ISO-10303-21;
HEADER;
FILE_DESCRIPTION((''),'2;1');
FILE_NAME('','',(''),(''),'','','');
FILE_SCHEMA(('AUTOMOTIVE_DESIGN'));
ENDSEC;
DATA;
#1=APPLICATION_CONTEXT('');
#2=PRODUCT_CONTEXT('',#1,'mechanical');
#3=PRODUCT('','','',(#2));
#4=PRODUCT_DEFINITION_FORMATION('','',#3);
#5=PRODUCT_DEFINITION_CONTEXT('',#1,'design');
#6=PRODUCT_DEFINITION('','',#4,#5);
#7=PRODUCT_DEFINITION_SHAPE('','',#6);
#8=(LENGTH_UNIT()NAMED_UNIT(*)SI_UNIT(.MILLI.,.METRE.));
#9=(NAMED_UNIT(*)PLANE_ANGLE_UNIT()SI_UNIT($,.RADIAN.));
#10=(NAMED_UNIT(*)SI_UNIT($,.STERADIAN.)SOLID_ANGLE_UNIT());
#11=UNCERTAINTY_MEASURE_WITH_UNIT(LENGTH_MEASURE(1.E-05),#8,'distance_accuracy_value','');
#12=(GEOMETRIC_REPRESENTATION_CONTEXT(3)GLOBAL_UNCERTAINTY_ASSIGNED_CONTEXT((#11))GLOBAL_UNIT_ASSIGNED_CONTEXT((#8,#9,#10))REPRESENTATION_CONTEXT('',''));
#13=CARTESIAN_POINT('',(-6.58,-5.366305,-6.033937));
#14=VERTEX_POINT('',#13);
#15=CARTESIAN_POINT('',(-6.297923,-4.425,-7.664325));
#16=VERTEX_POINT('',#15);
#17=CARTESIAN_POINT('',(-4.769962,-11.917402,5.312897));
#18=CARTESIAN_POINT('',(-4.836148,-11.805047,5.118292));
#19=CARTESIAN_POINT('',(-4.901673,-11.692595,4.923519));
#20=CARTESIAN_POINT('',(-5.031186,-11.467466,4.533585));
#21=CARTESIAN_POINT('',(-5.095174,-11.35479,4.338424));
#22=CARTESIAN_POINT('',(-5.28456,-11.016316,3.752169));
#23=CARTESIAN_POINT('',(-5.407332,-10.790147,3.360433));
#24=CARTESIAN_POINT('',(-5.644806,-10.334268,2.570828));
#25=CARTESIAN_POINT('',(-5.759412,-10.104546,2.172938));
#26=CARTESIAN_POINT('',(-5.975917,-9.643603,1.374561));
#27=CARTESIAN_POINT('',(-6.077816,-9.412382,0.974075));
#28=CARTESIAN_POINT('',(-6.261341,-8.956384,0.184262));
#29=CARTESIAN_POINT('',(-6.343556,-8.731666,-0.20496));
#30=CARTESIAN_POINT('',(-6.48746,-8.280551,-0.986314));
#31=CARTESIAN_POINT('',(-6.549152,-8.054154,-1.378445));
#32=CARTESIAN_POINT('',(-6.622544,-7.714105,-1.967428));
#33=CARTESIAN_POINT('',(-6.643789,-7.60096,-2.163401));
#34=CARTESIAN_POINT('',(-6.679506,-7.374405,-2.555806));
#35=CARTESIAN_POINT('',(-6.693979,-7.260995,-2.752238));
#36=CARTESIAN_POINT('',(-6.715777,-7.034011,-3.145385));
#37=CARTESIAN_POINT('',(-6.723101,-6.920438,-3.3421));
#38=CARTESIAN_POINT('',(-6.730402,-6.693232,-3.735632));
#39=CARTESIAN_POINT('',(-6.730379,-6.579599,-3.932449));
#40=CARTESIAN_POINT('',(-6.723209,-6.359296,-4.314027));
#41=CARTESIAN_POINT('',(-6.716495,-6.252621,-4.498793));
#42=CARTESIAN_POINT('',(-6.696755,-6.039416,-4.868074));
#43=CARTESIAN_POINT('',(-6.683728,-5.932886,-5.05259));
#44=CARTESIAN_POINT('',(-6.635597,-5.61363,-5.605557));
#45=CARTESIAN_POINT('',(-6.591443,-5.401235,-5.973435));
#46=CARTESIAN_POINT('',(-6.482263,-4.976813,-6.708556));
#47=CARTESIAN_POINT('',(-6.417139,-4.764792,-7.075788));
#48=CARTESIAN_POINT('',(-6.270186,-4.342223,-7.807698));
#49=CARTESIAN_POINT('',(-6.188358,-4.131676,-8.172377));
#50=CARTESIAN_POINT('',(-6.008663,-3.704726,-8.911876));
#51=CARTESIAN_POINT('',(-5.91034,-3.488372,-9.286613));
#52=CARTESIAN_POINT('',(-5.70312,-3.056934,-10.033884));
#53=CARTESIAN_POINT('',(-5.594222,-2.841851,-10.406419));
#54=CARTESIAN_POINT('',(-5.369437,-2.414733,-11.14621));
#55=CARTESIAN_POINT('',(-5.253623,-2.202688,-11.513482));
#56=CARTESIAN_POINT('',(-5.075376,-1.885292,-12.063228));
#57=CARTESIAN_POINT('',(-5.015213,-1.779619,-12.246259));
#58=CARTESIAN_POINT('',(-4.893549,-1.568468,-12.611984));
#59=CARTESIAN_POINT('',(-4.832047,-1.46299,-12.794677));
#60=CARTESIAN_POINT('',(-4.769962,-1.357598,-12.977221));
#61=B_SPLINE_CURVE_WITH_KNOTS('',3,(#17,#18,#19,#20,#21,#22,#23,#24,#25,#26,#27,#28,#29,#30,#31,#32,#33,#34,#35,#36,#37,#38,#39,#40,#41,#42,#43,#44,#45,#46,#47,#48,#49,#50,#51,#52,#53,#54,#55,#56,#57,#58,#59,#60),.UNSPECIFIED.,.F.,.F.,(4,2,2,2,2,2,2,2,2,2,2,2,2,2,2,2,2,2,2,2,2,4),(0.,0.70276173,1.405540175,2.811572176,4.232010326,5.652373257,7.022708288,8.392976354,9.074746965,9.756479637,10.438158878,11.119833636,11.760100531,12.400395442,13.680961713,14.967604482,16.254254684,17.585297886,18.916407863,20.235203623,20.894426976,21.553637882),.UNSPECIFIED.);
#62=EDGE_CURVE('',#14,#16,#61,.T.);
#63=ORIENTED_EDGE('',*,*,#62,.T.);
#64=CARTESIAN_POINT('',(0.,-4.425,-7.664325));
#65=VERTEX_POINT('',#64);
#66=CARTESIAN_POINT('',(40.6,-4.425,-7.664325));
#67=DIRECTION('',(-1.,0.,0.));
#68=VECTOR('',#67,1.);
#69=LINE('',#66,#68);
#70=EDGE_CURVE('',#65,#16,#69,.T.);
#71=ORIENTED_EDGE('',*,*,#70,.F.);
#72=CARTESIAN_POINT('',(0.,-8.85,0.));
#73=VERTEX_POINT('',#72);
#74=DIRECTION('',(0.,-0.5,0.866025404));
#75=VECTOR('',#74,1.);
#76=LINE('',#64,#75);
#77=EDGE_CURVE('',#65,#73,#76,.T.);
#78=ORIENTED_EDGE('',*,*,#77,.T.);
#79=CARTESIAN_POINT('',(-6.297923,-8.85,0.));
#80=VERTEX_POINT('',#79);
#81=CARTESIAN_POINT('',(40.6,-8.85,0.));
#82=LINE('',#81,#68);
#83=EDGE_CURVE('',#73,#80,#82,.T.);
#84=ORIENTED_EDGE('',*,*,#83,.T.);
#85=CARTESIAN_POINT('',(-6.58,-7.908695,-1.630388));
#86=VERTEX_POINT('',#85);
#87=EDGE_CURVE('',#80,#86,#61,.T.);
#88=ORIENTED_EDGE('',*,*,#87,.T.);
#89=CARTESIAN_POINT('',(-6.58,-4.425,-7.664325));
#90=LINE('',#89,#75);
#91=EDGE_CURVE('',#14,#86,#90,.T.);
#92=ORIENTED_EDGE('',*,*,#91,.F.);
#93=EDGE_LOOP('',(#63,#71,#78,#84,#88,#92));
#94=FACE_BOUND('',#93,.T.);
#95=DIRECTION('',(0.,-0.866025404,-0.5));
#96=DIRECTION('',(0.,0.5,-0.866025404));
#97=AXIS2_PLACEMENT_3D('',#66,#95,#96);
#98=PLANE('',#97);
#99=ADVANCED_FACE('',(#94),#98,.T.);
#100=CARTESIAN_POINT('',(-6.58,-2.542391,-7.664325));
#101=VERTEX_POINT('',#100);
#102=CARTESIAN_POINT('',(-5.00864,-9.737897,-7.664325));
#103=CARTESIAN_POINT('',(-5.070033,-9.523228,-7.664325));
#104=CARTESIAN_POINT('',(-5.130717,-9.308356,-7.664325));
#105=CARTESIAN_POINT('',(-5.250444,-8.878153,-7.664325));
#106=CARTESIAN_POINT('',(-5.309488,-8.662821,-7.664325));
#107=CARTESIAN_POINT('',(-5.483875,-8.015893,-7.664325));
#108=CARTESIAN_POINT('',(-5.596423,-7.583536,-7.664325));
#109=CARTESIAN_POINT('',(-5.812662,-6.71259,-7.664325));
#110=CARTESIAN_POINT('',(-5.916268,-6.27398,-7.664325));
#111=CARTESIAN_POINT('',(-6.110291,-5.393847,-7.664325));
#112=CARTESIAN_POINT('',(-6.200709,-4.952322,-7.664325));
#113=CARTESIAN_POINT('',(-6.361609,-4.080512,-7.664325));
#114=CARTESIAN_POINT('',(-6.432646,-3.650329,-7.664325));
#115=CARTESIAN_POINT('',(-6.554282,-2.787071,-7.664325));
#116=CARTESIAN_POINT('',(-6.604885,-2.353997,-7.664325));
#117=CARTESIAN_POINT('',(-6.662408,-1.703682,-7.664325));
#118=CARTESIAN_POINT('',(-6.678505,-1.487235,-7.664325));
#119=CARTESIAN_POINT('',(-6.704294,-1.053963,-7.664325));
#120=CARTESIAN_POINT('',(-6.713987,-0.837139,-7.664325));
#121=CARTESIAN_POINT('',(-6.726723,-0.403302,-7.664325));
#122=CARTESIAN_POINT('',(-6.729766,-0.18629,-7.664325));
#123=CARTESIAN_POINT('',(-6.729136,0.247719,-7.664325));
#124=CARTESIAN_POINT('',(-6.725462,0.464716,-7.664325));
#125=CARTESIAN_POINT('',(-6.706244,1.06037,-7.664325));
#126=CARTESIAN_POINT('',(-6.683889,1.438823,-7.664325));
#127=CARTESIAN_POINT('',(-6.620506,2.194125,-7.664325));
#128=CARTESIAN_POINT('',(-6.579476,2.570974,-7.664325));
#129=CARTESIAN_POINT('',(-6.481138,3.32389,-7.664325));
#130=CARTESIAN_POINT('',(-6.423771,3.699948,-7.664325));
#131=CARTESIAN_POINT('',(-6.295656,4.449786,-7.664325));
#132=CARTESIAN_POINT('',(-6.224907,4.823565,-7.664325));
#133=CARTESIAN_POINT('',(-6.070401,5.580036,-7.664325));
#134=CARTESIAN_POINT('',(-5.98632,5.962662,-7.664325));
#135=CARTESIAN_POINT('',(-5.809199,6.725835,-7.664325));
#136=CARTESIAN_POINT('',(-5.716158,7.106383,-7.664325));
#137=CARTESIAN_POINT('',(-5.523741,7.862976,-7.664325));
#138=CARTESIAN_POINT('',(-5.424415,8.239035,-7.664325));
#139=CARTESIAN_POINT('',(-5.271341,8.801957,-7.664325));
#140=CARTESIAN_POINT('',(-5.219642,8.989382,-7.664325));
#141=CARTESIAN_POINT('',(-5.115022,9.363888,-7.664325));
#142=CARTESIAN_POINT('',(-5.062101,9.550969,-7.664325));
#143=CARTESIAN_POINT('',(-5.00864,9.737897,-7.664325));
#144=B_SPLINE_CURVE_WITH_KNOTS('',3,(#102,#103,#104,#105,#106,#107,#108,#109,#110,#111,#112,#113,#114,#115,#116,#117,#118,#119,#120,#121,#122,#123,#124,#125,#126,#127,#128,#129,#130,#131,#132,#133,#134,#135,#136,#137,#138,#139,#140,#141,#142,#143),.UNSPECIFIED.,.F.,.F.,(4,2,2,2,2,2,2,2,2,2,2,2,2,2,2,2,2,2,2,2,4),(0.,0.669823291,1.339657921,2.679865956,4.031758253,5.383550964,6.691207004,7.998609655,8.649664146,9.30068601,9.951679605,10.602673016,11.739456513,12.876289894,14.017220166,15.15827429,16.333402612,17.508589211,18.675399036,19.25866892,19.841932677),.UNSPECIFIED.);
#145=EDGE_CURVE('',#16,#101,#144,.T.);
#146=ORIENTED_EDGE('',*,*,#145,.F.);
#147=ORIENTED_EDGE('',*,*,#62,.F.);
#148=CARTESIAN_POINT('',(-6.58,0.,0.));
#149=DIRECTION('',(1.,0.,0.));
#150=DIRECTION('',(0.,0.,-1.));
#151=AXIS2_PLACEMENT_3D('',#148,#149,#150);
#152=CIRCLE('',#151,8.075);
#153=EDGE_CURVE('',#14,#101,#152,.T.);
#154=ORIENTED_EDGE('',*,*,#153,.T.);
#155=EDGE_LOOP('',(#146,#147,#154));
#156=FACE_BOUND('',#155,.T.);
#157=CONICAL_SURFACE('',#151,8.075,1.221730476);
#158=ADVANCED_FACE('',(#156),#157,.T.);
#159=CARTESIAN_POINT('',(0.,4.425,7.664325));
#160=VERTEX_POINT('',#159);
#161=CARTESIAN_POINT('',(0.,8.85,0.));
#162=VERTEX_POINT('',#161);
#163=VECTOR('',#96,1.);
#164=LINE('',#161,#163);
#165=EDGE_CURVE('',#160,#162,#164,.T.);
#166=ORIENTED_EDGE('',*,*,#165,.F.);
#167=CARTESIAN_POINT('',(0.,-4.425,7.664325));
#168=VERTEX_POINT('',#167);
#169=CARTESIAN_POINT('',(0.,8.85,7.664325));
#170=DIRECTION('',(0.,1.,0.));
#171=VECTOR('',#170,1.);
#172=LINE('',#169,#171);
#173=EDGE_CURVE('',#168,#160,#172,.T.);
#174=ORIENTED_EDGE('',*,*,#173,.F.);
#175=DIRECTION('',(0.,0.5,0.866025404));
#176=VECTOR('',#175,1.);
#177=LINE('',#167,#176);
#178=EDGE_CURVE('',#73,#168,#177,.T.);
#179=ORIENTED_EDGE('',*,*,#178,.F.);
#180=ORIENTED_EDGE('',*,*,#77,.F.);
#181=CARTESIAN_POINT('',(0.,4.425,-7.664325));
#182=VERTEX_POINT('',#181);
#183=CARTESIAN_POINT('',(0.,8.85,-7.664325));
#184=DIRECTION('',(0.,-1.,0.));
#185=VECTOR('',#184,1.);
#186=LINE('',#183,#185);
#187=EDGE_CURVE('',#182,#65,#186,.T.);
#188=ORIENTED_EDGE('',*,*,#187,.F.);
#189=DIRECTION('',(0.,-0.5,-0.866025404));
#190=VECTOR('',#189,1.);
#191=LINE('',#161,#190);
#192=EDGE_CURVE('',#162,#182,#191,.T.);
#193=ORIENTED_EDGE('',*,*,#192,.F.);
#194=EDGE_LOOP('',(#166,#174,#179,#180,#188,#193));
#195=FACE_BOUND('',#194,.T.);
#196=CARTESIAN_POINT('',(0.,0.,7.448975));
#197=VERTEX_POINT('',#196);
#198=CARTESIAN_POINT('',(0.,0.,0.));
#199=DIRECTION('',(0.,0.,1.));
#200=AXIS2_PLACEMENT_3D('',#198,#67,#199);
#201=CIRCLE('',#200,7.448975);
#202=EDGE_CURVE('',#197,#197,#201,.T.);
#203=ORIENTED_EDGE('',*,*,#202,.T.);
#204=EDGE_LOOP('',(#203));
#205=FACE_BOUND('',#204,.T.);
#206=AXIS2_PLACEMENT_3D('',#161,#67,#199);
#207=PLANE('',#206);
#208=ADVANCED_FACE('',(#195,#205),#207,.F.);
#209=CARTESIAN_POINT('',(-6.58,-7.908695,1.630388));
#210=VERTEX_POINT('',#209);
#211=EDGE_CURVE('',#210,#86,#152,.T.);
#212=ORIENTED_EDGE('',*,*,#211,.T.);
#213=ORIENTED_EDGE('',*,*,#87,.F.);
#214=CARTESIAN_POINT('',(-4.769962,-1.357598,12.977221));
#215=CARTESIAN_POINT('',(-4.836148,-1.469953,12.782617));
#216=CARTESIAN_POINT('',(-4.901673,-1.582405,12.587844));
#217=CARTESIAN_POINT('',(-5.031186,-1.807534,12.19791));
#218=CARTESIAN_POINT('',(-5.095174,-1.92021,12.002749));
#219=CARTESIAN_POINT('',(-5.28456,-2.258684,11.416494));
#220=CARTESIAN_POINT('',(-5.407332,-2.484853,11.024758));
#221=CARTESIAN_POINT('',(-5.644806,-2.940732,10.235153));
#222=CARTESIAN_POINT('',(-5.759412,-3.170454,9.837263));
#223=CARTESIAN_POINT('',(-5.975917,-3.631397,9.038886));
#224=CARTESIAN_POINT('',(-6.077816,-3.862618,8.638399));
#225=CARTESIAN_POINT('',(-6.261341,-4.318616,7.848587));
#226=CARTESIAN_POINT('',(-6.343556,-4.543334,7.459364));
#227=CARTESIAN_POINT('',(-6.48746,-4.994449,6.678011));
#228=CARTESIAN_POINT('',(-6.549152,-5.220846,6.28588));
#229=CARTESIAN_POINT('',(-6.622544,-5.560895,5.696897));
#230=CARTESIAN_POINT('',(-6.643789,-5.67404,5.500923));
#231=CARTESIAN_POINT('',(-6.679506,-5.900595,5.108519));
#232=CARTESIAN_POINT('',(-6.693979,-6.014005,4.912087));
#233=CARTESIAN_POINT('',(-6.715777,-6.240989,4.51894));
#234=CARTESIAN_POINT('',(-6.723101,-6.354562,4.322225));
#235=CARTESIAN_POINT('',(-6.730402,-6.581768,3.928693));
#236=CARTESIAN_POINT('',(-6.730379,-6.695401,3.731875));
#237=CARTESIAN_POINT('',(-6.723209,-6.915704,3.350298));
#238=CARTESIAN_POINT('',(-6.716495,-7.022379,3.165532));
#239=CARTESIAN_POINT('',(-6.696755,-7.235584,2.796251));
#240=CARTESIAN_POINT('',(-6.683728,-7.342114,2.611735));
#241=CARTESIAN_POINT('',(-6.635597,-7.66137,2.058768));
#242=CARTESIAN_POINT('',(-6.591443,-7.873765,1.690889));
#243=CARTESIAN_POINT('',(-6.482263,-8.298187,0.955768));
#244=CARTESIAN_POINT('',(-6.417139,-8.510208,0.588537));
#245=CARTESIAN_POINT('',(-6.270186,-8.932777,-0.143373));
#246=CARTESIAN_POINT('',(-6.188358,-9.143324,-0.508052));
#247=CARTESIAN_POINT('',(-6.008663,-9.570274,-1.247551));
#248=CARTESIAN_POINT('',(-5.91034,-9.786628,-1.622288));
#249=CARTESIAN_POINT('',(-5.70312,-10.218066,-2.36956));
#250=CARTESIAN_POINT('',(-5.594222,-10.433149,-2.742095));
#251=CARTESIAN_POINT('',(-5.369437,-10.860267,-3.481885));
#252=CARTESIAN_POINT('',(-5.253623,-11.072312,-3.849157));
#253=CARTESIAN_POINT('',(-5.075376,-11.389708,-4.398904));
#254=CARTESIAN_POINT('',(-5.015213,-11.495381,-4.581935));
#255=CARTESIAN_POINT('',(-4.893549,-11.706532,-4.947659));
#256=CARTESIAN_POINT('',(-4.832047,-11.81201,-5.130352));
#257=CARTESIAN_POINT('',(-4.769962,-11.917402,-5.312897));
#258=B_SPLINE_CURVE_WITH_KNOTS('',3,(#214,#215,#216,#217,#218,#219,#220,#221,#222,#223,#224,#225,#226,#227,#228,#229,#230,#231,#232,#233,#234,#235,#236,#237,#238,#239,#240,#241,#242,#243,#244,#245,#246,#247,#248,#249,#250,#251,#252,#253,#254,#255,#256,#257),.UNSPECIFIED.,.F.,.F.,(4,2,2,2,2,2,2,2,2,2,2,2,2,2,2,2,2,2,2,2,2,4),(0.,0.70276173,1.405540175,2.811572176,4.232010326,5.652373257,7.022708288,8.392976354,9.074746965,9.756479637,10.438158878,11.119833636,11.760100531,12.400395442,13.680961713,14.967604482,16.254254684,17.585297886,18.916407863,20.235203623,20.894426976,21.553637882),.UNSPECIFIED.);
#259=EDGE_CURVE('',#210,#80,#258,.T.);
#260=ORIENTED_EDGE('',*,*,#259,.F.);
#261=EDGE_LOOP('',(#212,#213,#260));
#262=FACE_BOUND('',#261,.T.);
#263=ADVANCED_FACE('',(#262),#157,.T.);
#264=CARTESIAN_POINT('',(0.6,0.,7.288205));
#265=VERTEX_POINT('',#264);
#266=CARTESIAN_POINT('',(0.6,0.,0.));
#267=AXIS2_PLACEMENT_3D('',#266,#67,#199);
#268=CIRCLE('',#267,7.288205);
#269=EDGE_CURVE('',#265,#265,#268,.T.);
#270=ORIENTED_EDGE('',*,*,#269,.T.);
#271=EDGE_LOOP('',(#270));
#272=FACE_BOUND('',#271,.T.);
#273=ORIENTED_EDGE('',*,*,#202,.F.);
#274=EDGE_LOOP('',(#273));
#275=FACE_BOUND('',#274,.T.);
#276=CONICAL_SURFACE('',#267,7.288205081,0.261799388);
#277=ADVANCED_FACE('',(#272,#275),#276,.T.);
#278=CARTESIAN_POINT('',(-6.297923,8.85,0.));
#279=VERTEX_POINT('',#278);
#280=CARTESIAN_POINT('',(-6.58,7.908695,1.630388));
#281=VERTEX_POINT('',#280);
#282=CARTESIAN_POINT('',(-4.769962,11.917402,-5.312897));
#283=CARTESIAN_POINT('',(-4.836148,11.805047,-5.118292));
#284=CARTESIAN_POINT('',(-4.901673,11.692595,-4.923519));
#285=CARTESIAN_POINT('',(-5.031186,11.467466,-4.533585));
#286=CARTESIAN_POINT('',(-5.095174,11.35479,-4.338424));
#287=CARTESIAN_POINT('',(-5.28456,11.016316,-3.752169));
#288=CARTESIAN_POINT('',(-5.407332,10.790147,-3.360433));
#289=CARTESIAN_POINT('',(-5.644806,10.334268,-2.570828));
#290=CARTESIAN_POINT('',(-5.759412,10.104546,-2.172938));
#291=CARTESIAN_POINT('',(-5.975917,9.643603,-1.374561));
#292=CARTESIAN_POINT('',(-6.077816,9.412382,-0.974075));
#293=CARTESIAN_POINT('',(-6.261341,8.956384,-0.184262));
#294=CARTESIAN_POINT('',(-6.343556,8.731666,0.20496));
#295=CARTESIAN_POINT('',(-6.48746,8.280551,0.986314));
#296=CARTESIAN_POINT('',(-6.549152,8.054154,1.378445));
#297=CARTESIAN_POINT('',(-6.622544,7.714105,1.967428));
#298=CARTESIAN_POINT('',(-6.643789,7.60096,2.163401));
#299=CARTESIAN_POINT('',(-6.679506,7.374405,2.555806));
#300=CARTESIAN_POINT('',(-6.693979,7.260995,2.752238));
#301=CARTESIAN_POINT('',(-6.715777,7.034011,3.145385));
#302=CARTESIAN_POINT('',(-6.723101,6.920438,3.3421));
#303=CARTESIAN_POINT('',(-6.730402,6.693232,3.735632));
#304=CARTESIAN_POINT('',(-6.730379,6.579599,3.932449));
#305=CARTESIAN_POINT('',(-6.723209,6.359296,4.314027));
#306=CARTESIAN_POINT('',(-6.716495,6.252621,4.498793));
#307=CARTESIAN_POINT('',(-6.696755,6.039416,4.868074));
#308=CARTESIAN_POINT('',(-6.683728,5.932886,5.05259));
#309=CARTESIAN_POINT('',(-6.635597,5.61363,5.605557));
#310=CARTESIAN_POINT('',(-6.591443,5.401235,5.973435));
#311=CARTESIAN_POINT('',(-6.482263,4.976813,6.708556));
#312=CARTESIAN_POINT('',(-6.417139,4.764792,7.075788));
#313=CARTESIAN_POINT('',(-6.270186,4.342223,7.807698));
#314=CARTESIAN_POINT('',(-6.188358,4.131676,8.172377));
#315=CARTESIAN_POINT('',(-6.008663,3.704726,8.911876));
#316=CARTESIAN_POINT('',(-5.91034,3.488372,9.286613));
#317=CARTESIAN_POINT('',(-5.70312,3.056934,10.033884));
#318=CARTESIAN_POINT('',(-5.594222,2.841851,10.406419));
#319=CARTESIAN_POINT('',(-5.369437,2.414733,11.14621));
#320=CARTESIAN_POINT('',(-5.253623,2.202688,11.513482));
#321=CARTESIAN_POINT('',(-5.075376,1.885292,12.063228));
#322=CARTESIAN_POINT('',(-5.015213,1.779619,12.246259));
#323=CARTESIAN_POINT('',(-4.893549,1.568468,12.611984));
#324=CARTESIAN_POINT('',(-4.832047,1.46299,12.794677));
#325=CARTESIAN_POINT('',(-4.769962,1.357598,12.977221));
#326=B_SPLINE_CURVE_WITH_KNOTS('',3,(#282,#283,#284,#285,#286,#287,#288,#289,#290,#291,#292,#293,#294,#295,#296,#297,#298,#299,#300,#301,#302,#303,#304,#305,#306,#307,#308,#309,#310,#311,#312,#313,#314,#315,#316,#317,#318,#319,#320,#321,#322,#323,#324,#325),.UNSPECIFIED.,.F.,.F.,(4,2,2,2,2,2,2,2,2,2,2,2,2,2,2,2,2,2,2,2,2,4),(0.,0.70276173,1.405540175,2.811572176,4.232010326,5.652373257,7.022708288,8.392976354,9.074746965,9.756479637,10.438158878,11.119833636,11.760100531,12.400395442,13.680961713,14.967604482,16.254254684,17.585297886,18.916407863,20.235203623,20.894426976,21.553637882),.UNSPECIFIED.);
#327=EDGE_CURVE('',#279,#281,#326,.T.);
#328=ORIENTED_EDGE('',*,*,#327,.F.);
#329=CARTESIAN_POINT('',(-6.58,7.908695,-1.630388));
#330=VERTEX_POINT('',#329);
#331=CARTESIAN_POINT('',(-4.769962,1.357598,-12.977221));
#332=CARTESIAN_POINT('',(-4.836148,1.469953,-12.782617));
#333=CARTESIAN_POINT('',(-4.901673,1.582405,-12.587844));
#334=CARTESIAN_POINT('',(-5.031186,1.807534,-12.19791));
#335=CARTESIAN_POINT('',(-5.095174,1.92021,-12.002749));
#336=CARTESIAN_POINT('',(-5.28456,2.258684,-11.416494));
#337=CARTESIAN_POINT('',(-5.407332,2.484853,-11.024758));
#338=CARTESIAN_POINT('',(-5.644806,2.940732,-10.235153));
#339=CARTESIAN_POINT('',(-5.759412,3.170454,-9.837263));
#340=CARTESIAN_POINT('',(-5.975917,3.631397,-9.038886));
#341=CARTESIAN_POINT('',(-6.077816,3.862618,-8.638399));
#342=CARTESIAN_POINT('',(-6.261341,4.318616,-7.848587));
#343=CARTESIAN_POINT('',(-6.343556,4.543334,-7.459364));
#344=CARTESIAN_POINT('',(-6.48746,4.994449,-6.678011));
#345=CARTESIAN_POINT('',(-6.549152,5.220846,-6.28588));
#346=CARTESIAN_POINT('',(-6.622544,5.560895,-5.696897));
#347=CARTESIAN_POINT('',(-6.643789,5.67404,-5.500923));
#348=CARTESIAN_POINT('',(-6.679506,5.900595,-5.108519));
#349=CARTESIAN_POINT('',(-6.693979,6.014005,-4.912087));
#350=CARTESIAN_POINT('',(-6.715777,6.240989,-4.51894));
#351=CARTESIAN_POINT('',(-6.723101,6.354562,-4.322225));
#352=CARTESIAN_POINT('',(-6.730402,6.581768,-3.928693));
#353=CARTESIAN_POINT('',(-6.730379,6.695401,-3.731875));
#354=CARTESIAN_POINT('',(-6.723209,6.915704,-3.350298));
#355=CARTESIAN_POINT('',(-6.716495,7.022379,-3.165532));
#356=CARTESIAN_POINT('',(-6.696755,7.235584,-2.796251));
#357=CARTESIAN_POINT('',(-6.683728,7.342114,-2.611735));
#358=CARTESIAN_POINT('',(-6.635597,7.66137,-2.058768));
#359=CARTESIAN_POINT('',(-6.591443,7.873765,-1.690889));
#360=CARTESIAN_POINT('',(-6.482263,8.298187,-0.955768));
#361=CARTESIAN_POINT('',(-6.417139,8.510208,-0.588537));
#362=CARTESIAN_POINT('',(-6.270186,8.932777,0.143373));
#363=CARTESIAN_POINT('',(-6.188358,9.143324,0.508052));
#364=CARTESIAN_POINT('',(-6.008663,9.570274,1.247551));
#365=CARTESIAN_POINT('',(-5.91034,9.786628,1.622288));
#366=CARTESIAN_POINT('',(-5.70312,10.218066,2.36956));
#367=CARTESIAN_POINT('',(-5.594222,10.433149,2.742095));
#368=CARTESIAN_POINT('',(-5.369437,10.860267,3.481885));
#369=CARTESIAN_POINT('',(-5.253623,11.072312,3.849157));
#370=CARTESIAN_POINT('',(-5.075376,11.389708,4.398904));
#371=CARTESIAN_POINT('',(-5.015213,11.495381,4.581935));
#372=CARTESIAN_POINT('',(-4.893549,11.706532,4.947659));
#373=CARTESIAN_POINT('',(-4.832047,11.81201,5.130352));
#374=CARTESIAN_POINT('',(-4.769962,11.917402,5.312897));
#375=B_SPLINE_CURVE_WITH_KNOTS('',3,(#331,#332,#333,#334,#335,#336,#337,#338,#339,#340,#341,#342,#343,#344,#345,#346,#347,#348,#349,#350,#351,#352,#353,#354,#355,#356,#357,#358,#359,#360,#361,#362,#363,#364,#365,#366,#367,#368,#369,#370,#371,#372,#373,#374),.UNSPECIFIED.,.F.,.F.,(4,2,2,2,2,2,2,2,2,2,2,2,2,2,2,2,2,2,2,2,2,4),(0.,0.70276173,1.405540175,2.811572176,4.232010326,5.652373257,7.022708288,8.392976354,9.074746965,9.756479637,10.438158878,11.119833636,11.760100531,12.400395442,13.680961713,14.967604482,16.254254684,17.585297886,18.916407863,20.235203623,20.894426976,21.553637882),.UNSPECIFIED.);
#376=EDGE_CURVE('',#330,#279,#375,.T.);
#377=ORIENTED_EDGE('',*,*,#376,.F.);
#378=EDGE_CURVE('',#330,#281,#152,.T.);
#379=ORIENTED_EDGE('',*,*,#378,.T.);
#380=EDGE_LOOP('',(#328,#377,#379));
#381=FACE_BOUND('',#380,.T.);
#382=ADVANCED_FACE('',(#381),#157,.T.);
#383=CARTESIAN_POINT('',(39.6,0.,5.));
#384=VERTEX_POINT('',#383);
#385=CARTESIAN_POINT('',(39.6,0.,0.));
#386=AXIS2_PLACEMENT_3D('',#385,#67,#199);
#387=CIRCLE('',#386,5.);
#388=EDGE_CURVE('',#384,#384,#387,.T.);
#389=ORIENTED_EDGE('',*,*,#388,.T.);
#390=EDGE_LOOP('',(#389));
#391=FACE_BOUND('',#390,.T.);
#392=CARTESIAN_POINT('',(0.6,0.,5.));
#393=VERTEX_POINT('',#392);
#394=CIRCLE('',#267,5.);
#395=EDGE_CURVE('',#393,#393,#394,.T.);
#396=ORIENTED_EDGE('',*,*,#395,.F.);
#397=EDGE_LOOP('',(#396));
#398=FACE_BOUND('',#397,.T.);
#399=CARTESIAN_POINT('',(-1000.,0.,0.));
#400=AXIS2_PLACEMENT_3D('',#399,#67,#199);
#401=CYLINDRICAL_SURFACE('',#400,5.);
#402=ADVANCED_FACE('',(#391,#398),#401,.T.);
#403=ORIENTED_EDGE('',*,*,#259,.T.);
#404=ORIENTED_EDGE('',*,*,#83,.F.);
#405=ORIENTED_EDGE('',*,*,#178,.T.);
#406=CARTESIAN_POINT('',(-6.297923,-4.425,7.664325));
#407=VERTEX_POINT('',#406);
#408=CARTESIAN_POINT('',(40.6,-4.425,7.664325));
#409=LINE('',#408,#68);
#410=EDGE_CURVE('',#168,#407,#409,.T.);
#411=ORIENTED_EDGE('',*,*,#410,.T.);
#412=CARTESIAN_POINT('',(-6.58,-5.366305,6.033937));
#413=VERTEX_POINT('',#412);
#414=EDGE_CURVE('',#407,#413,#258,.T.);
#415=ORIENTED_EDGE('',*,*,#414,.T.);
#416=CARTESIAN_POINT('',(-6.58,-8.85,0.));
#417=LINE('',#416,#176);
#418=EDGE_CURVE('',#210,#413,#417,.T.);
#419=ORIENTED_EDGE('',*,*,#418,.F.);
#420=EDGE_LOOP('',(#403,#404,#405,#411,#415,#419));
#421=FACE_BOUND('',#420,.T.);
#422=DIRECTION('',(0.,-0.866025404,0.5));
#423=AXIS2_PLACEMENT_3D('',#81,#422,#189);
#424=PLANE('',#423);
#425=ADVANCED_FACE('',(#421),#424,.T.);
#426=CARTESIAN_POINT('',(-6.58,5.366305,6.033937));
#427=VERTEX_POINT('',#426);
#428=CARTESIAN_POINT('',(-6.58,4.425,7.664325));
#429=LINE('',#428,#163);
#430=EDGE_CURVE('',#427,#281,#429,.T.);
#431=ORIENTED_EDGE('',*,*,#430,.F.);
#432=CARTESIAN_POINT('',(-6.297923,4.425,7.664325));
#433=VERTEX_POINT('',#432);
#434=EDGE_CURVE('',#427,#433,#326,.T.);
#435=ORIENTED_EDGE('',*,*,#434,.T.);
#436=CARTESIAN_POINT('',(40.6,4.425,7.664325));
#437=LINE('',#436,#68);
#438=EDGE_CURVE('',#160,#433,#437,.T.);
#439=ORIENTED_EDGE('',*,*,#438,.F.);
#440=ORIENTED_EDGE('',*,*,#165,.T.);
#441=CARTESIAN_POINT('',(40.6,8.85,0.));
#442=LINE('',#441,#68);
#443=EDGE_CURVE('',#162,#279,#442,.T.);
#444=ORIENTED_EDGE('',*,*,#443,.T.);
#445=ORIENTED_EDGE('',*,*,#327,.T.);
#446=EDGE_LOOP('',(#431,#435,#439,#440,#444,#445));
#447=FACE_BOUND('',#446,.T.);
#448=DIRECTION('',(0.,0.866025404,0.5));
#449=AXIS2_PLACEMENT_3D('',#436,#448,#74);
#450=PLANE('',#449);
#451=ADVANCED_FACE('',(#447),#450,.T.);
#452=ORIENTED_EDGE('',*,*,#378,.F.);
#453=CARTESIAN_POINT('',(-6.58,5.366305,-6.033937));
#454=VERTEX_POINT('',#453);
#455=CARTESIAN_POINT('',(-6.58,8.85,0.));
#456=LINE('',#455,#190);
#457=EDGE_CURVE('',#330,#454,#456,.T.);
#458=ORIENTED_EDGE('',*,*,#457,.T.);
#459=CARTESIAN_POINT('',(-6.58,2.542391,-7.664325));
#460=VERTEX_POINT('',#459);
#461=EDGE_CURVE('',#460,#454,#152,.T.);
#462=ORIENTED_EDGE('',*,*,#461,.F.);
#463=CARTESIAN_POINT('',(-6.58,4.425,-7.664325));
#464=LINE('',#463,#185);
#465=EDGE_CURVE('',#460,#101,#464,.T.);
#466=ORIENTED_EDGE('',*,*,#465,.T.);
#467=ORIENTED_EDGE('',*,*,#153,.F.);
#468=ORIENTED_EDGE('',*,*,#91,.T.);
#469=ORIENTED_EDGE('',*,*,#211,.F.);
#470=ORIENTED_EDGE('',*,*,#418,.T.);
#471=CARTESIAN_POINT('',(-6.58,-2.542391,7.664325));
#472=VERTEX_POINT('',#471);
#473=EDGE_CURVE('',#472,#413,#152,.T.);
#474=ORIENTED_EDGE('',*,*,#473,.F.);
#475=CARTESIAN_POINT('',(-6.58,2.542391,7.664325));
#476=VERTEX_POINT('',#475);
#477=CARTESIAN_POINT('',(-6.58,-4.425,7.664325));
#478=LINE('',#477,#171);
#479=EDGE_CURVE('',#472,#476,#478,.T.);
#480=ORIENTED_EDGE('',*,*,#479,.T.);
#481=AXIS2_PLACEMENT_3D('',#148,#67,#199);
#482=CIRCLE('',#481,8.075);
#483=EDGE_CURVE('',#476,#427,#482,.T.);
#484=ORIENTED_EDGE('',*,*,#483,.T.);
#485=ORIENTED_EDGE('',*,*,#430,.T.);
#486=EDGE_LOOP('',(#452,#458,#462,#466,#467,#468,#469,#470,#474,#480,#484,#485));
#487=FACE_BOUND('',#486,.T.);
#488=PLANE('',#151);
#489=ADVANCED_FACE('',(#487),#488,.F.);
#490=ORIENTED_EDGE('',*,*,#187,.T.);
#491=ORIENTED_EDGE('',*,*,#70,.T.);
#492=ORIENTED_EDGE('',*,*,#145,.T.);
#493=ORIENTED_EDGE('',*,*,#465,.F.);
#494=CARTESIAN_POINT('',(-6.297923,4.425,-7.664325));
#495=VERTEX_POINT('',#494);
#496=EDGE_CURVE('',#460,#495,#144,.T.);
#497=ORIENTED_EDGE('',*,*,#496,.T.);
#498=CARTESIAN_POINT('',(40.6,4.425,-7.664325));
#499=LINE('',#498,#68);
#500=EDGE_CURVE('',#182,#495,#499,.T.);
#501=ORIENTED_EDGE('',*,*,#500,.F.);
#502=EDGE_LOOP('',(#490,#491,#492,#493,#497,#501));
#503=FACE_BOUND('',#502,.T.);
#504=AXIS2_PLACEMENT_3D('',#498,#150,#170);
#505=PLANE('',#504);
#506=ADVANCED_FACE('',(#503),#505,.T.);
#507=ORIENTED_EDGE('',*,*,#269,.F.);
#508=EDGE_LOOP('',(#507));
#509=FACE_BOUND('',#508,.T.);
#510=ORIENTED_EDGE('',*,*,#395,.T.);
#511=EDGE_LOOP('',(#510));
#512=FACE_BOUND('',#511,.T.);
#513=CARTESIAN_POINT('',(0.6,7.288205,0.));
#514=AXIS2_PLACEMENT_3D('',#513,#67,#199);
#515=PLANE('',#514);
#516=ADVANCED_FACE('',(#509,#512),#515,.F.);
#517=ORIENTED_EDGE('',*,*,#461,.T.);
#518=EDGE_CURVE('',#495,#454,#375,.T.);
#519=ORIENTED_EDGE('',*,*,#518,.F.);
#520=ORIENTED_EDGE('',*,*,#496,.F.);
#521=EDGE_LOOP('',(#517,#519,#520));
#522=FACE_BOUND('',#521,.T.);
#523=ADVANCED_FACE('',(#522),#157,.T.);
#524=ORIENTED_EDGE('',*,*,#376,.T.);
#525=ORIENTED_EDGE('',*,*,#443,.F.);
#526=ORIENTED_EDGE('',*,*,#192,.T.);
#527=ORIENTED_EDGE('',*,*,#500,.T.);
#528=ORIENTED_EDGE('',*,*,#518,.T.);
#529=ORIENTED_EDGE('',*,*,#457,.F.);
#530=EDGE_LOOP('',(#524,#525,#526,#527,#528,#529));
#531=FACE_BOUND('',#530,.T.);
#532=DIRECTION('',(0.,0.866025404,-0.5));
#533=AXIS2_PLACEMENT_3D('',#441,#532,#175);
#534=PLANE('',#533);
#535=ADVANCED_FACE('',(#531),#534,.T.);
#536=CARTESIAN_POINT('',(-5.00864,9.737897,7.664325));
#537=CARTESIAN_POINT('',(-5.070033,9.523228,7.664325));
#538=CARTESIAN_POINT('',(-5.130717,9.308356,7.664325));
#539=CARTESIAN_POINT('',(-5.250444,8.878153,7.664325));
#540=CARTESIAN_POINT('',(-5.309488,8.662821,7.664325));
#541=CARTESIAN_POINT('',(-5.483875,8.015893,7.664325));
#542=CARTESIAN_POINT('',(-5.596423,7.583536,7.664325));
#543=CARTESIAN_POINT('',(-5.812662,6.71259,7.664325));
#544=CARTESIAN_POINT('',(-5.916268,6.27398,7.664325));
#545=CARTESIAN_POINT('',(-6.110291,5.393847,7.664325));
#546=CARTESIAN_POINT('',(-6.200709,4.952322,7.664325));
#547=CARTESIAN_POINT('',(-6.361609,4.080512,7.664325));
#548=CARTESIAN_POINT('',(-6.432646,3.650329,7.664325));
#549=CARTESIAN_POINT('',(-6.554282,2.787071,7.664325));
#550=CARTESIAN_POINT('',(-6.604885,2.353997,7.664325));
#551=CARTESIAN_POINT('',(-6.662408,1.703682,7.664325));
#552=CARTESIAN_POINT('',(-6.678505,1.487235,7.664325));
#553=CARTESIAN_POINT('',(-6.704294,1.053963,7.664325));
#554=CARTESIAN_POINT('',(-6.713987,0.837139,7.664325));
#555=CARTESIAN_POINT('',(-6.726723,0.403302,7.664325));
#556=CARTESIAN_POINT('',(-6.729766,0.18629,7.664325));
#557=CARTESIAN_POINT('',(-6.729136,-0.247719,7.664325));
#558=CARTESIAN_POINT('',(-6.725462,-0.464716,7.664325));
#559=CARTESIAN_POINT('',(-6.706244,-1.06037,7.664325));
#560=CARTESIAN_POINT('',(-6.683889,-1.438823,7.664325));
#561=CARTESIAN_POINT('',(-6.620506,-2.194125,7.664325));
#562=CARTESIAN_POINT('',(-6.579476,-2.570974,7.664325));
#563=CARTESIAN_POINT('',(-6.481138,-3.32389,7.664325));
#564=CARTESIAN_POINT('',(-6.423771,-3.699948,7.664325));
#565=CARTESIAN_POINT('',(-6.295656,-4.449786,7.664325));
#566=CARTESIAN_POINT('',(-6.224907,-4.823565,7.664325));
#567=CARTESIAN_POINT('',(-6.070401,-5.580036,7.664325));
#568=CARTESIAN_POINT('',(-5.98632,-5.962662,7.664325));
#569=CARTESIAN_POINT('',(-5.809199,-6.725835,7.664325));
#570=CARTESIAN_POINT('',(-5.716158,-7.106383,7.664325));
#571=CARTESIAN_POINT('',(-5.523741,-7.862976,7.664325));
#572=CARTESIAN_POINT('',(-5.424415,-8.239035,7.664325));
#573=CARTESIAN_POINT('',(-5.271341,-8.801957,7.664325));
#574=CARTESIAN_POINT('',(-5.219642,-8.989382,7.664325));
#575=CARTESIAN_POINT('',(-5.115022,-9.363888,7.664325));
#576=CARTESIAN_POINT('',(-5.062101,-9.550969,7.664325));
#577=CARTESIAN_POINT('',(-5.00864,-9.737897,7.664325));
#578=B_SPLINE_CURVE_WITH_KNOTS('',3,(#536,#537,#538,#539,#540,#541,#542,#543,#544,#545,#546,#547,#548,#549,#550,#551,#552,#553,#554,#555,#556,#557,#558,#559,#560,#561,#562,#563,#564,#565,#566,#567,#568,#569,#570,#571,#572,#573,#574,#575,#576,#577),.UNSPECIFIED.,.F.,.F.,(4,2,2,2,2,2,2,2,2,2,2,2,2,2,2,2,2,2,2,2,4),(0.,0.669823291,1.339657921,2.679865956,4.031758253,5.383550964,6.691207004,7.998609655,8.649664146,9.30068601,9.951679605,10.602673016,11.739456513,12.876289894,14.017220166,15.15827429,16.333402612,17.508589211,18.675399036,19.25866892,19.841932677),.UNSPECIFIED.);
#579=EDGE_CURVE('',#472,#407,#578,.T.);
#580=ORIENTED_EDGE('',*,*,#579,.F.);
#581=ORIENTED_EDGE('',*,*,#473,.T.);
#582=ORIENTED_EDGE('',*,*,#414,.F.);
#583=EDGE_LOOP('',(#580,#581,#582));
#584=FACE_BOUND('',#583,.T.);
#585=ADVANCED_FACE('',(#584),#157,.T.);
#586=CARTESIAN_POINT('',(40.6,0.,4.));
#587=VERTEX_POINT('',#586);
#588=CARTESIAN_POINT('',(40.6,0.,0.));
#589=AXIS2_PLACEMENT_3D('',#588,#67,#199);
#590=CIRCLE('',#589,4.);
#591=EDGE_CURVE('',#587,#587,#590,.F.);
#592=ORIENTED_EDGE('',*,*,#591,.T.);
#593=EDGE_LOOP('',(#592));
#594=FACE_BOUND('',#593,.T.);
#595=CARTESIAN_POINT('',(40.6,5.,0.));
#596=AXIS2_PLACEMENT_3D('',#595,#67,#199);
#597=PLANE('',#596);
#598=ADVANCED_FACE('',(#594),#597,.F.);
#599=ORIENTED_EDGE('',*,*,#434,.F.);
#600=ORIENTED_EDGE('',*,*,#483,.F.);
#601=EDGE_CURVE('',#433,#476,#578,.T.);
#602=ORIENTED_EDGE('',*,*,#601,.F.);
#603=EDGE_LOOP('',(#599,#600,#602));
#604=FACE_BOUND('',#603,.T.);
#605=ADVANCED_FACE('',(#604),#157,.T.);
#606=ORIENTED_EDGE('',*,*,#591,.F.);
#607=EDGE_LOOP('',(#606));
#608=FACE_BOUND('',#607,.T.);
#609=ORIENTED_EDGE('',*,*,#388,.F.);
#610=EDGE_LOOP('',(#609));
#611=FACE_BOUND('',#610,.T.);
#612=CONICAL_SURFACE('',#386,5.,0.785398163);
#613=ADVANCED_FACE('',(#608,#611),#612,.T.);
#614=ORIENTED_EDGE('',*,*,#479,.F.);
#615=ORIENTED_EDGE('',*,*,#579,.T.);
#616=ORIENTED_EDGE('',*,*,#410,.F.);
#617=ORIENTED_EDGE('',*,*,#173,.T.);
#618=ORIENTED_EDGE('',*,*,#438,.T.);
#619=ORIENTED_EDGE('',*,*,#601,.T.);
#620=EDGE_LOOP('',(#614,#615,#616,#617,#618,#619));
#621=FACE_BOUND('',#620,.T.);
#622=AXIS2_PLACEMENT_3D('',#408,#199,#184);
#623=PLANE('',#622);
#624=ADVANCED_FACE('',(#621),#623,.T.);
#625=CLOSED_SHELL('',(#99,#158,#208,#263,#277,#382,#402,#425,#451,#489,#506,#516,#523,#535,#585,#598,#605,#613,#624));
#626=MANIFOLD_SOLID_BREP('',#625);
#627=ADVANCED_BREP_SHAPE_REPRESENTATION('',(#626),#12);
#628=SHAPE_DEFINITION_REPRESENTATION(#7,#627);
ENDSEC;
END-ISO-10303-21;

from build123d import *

# Parameters (mm, degrees)
SKETCH_2_OUTSIDE_W  = 30.382
SKETCH_2_OUTSIDE_H  = 30.382
CUT_EXTRUDE_1_DEPTH = 49.811857166
CHAMFER_1_SIZE      = 1


with BuildPart() as part:
    # Эскиз1 → Повернуть1 (revolve)
    with BuildSketch(Plane.XY, mode=Mode.PRIVATE) as revolve_1_sk:
        Polygon((-6.58, 0), (-6.58, 8.85), (0, 8.85), (0, 7.448974596), (0.6, 7.288205081), (0.6, 5), (40.6, 5), (40.6, 0), align=None)
    revolve(revolve_1_sk.sketch.rotate(Axis((-1000, 0, 0), (1, 0, 0)), 90), axis=Axis((-1000, 0, 0), (1, 0, 0)))

    # Эскиз2 outside → Вырез-Вытянуть1 (cut, through all)
    with BuildSketch(Plane.ZY.offset(6.58)):
        Rectangle(SKETCH_2_OUTSIDE_W, SKETCH_2_OUTSIDE_H)
        Polygon((0, -8.85), (7.664324823, -4.425), (7.664324823, 4.425), (0, 8.85), (-7.664324823, 4.425), (-7.664324823, -4.425), align=None, mode=Mode.SUBTRACT)
    extrude(amount=-CUT_EXTRUDE_1_DEPTH, mode=Mode.SUBTRACT)

    # Эскиз4 → Вырез-Повернуть1 (revolve, cut)
    with BuildSketch(Plane.XY):
        Polygon((-6.58, 8.075), (-6.297923068, 8.85), (-6.58, 8.85), align=None)
    revolve(axis=Axis((-1000, 0, 0), (1, 0, 0)), mode=Mode.SUBTRACT)

    # Фаска1
    chamfer_1_edges = [part.edges().sort_by_distance(p)[0] for p in [
        (40.6, 0, -5),
    ]]
    chamfer(chamfer_1_edges, length=CHAMFER_1_SIZE)


solid = part.part
